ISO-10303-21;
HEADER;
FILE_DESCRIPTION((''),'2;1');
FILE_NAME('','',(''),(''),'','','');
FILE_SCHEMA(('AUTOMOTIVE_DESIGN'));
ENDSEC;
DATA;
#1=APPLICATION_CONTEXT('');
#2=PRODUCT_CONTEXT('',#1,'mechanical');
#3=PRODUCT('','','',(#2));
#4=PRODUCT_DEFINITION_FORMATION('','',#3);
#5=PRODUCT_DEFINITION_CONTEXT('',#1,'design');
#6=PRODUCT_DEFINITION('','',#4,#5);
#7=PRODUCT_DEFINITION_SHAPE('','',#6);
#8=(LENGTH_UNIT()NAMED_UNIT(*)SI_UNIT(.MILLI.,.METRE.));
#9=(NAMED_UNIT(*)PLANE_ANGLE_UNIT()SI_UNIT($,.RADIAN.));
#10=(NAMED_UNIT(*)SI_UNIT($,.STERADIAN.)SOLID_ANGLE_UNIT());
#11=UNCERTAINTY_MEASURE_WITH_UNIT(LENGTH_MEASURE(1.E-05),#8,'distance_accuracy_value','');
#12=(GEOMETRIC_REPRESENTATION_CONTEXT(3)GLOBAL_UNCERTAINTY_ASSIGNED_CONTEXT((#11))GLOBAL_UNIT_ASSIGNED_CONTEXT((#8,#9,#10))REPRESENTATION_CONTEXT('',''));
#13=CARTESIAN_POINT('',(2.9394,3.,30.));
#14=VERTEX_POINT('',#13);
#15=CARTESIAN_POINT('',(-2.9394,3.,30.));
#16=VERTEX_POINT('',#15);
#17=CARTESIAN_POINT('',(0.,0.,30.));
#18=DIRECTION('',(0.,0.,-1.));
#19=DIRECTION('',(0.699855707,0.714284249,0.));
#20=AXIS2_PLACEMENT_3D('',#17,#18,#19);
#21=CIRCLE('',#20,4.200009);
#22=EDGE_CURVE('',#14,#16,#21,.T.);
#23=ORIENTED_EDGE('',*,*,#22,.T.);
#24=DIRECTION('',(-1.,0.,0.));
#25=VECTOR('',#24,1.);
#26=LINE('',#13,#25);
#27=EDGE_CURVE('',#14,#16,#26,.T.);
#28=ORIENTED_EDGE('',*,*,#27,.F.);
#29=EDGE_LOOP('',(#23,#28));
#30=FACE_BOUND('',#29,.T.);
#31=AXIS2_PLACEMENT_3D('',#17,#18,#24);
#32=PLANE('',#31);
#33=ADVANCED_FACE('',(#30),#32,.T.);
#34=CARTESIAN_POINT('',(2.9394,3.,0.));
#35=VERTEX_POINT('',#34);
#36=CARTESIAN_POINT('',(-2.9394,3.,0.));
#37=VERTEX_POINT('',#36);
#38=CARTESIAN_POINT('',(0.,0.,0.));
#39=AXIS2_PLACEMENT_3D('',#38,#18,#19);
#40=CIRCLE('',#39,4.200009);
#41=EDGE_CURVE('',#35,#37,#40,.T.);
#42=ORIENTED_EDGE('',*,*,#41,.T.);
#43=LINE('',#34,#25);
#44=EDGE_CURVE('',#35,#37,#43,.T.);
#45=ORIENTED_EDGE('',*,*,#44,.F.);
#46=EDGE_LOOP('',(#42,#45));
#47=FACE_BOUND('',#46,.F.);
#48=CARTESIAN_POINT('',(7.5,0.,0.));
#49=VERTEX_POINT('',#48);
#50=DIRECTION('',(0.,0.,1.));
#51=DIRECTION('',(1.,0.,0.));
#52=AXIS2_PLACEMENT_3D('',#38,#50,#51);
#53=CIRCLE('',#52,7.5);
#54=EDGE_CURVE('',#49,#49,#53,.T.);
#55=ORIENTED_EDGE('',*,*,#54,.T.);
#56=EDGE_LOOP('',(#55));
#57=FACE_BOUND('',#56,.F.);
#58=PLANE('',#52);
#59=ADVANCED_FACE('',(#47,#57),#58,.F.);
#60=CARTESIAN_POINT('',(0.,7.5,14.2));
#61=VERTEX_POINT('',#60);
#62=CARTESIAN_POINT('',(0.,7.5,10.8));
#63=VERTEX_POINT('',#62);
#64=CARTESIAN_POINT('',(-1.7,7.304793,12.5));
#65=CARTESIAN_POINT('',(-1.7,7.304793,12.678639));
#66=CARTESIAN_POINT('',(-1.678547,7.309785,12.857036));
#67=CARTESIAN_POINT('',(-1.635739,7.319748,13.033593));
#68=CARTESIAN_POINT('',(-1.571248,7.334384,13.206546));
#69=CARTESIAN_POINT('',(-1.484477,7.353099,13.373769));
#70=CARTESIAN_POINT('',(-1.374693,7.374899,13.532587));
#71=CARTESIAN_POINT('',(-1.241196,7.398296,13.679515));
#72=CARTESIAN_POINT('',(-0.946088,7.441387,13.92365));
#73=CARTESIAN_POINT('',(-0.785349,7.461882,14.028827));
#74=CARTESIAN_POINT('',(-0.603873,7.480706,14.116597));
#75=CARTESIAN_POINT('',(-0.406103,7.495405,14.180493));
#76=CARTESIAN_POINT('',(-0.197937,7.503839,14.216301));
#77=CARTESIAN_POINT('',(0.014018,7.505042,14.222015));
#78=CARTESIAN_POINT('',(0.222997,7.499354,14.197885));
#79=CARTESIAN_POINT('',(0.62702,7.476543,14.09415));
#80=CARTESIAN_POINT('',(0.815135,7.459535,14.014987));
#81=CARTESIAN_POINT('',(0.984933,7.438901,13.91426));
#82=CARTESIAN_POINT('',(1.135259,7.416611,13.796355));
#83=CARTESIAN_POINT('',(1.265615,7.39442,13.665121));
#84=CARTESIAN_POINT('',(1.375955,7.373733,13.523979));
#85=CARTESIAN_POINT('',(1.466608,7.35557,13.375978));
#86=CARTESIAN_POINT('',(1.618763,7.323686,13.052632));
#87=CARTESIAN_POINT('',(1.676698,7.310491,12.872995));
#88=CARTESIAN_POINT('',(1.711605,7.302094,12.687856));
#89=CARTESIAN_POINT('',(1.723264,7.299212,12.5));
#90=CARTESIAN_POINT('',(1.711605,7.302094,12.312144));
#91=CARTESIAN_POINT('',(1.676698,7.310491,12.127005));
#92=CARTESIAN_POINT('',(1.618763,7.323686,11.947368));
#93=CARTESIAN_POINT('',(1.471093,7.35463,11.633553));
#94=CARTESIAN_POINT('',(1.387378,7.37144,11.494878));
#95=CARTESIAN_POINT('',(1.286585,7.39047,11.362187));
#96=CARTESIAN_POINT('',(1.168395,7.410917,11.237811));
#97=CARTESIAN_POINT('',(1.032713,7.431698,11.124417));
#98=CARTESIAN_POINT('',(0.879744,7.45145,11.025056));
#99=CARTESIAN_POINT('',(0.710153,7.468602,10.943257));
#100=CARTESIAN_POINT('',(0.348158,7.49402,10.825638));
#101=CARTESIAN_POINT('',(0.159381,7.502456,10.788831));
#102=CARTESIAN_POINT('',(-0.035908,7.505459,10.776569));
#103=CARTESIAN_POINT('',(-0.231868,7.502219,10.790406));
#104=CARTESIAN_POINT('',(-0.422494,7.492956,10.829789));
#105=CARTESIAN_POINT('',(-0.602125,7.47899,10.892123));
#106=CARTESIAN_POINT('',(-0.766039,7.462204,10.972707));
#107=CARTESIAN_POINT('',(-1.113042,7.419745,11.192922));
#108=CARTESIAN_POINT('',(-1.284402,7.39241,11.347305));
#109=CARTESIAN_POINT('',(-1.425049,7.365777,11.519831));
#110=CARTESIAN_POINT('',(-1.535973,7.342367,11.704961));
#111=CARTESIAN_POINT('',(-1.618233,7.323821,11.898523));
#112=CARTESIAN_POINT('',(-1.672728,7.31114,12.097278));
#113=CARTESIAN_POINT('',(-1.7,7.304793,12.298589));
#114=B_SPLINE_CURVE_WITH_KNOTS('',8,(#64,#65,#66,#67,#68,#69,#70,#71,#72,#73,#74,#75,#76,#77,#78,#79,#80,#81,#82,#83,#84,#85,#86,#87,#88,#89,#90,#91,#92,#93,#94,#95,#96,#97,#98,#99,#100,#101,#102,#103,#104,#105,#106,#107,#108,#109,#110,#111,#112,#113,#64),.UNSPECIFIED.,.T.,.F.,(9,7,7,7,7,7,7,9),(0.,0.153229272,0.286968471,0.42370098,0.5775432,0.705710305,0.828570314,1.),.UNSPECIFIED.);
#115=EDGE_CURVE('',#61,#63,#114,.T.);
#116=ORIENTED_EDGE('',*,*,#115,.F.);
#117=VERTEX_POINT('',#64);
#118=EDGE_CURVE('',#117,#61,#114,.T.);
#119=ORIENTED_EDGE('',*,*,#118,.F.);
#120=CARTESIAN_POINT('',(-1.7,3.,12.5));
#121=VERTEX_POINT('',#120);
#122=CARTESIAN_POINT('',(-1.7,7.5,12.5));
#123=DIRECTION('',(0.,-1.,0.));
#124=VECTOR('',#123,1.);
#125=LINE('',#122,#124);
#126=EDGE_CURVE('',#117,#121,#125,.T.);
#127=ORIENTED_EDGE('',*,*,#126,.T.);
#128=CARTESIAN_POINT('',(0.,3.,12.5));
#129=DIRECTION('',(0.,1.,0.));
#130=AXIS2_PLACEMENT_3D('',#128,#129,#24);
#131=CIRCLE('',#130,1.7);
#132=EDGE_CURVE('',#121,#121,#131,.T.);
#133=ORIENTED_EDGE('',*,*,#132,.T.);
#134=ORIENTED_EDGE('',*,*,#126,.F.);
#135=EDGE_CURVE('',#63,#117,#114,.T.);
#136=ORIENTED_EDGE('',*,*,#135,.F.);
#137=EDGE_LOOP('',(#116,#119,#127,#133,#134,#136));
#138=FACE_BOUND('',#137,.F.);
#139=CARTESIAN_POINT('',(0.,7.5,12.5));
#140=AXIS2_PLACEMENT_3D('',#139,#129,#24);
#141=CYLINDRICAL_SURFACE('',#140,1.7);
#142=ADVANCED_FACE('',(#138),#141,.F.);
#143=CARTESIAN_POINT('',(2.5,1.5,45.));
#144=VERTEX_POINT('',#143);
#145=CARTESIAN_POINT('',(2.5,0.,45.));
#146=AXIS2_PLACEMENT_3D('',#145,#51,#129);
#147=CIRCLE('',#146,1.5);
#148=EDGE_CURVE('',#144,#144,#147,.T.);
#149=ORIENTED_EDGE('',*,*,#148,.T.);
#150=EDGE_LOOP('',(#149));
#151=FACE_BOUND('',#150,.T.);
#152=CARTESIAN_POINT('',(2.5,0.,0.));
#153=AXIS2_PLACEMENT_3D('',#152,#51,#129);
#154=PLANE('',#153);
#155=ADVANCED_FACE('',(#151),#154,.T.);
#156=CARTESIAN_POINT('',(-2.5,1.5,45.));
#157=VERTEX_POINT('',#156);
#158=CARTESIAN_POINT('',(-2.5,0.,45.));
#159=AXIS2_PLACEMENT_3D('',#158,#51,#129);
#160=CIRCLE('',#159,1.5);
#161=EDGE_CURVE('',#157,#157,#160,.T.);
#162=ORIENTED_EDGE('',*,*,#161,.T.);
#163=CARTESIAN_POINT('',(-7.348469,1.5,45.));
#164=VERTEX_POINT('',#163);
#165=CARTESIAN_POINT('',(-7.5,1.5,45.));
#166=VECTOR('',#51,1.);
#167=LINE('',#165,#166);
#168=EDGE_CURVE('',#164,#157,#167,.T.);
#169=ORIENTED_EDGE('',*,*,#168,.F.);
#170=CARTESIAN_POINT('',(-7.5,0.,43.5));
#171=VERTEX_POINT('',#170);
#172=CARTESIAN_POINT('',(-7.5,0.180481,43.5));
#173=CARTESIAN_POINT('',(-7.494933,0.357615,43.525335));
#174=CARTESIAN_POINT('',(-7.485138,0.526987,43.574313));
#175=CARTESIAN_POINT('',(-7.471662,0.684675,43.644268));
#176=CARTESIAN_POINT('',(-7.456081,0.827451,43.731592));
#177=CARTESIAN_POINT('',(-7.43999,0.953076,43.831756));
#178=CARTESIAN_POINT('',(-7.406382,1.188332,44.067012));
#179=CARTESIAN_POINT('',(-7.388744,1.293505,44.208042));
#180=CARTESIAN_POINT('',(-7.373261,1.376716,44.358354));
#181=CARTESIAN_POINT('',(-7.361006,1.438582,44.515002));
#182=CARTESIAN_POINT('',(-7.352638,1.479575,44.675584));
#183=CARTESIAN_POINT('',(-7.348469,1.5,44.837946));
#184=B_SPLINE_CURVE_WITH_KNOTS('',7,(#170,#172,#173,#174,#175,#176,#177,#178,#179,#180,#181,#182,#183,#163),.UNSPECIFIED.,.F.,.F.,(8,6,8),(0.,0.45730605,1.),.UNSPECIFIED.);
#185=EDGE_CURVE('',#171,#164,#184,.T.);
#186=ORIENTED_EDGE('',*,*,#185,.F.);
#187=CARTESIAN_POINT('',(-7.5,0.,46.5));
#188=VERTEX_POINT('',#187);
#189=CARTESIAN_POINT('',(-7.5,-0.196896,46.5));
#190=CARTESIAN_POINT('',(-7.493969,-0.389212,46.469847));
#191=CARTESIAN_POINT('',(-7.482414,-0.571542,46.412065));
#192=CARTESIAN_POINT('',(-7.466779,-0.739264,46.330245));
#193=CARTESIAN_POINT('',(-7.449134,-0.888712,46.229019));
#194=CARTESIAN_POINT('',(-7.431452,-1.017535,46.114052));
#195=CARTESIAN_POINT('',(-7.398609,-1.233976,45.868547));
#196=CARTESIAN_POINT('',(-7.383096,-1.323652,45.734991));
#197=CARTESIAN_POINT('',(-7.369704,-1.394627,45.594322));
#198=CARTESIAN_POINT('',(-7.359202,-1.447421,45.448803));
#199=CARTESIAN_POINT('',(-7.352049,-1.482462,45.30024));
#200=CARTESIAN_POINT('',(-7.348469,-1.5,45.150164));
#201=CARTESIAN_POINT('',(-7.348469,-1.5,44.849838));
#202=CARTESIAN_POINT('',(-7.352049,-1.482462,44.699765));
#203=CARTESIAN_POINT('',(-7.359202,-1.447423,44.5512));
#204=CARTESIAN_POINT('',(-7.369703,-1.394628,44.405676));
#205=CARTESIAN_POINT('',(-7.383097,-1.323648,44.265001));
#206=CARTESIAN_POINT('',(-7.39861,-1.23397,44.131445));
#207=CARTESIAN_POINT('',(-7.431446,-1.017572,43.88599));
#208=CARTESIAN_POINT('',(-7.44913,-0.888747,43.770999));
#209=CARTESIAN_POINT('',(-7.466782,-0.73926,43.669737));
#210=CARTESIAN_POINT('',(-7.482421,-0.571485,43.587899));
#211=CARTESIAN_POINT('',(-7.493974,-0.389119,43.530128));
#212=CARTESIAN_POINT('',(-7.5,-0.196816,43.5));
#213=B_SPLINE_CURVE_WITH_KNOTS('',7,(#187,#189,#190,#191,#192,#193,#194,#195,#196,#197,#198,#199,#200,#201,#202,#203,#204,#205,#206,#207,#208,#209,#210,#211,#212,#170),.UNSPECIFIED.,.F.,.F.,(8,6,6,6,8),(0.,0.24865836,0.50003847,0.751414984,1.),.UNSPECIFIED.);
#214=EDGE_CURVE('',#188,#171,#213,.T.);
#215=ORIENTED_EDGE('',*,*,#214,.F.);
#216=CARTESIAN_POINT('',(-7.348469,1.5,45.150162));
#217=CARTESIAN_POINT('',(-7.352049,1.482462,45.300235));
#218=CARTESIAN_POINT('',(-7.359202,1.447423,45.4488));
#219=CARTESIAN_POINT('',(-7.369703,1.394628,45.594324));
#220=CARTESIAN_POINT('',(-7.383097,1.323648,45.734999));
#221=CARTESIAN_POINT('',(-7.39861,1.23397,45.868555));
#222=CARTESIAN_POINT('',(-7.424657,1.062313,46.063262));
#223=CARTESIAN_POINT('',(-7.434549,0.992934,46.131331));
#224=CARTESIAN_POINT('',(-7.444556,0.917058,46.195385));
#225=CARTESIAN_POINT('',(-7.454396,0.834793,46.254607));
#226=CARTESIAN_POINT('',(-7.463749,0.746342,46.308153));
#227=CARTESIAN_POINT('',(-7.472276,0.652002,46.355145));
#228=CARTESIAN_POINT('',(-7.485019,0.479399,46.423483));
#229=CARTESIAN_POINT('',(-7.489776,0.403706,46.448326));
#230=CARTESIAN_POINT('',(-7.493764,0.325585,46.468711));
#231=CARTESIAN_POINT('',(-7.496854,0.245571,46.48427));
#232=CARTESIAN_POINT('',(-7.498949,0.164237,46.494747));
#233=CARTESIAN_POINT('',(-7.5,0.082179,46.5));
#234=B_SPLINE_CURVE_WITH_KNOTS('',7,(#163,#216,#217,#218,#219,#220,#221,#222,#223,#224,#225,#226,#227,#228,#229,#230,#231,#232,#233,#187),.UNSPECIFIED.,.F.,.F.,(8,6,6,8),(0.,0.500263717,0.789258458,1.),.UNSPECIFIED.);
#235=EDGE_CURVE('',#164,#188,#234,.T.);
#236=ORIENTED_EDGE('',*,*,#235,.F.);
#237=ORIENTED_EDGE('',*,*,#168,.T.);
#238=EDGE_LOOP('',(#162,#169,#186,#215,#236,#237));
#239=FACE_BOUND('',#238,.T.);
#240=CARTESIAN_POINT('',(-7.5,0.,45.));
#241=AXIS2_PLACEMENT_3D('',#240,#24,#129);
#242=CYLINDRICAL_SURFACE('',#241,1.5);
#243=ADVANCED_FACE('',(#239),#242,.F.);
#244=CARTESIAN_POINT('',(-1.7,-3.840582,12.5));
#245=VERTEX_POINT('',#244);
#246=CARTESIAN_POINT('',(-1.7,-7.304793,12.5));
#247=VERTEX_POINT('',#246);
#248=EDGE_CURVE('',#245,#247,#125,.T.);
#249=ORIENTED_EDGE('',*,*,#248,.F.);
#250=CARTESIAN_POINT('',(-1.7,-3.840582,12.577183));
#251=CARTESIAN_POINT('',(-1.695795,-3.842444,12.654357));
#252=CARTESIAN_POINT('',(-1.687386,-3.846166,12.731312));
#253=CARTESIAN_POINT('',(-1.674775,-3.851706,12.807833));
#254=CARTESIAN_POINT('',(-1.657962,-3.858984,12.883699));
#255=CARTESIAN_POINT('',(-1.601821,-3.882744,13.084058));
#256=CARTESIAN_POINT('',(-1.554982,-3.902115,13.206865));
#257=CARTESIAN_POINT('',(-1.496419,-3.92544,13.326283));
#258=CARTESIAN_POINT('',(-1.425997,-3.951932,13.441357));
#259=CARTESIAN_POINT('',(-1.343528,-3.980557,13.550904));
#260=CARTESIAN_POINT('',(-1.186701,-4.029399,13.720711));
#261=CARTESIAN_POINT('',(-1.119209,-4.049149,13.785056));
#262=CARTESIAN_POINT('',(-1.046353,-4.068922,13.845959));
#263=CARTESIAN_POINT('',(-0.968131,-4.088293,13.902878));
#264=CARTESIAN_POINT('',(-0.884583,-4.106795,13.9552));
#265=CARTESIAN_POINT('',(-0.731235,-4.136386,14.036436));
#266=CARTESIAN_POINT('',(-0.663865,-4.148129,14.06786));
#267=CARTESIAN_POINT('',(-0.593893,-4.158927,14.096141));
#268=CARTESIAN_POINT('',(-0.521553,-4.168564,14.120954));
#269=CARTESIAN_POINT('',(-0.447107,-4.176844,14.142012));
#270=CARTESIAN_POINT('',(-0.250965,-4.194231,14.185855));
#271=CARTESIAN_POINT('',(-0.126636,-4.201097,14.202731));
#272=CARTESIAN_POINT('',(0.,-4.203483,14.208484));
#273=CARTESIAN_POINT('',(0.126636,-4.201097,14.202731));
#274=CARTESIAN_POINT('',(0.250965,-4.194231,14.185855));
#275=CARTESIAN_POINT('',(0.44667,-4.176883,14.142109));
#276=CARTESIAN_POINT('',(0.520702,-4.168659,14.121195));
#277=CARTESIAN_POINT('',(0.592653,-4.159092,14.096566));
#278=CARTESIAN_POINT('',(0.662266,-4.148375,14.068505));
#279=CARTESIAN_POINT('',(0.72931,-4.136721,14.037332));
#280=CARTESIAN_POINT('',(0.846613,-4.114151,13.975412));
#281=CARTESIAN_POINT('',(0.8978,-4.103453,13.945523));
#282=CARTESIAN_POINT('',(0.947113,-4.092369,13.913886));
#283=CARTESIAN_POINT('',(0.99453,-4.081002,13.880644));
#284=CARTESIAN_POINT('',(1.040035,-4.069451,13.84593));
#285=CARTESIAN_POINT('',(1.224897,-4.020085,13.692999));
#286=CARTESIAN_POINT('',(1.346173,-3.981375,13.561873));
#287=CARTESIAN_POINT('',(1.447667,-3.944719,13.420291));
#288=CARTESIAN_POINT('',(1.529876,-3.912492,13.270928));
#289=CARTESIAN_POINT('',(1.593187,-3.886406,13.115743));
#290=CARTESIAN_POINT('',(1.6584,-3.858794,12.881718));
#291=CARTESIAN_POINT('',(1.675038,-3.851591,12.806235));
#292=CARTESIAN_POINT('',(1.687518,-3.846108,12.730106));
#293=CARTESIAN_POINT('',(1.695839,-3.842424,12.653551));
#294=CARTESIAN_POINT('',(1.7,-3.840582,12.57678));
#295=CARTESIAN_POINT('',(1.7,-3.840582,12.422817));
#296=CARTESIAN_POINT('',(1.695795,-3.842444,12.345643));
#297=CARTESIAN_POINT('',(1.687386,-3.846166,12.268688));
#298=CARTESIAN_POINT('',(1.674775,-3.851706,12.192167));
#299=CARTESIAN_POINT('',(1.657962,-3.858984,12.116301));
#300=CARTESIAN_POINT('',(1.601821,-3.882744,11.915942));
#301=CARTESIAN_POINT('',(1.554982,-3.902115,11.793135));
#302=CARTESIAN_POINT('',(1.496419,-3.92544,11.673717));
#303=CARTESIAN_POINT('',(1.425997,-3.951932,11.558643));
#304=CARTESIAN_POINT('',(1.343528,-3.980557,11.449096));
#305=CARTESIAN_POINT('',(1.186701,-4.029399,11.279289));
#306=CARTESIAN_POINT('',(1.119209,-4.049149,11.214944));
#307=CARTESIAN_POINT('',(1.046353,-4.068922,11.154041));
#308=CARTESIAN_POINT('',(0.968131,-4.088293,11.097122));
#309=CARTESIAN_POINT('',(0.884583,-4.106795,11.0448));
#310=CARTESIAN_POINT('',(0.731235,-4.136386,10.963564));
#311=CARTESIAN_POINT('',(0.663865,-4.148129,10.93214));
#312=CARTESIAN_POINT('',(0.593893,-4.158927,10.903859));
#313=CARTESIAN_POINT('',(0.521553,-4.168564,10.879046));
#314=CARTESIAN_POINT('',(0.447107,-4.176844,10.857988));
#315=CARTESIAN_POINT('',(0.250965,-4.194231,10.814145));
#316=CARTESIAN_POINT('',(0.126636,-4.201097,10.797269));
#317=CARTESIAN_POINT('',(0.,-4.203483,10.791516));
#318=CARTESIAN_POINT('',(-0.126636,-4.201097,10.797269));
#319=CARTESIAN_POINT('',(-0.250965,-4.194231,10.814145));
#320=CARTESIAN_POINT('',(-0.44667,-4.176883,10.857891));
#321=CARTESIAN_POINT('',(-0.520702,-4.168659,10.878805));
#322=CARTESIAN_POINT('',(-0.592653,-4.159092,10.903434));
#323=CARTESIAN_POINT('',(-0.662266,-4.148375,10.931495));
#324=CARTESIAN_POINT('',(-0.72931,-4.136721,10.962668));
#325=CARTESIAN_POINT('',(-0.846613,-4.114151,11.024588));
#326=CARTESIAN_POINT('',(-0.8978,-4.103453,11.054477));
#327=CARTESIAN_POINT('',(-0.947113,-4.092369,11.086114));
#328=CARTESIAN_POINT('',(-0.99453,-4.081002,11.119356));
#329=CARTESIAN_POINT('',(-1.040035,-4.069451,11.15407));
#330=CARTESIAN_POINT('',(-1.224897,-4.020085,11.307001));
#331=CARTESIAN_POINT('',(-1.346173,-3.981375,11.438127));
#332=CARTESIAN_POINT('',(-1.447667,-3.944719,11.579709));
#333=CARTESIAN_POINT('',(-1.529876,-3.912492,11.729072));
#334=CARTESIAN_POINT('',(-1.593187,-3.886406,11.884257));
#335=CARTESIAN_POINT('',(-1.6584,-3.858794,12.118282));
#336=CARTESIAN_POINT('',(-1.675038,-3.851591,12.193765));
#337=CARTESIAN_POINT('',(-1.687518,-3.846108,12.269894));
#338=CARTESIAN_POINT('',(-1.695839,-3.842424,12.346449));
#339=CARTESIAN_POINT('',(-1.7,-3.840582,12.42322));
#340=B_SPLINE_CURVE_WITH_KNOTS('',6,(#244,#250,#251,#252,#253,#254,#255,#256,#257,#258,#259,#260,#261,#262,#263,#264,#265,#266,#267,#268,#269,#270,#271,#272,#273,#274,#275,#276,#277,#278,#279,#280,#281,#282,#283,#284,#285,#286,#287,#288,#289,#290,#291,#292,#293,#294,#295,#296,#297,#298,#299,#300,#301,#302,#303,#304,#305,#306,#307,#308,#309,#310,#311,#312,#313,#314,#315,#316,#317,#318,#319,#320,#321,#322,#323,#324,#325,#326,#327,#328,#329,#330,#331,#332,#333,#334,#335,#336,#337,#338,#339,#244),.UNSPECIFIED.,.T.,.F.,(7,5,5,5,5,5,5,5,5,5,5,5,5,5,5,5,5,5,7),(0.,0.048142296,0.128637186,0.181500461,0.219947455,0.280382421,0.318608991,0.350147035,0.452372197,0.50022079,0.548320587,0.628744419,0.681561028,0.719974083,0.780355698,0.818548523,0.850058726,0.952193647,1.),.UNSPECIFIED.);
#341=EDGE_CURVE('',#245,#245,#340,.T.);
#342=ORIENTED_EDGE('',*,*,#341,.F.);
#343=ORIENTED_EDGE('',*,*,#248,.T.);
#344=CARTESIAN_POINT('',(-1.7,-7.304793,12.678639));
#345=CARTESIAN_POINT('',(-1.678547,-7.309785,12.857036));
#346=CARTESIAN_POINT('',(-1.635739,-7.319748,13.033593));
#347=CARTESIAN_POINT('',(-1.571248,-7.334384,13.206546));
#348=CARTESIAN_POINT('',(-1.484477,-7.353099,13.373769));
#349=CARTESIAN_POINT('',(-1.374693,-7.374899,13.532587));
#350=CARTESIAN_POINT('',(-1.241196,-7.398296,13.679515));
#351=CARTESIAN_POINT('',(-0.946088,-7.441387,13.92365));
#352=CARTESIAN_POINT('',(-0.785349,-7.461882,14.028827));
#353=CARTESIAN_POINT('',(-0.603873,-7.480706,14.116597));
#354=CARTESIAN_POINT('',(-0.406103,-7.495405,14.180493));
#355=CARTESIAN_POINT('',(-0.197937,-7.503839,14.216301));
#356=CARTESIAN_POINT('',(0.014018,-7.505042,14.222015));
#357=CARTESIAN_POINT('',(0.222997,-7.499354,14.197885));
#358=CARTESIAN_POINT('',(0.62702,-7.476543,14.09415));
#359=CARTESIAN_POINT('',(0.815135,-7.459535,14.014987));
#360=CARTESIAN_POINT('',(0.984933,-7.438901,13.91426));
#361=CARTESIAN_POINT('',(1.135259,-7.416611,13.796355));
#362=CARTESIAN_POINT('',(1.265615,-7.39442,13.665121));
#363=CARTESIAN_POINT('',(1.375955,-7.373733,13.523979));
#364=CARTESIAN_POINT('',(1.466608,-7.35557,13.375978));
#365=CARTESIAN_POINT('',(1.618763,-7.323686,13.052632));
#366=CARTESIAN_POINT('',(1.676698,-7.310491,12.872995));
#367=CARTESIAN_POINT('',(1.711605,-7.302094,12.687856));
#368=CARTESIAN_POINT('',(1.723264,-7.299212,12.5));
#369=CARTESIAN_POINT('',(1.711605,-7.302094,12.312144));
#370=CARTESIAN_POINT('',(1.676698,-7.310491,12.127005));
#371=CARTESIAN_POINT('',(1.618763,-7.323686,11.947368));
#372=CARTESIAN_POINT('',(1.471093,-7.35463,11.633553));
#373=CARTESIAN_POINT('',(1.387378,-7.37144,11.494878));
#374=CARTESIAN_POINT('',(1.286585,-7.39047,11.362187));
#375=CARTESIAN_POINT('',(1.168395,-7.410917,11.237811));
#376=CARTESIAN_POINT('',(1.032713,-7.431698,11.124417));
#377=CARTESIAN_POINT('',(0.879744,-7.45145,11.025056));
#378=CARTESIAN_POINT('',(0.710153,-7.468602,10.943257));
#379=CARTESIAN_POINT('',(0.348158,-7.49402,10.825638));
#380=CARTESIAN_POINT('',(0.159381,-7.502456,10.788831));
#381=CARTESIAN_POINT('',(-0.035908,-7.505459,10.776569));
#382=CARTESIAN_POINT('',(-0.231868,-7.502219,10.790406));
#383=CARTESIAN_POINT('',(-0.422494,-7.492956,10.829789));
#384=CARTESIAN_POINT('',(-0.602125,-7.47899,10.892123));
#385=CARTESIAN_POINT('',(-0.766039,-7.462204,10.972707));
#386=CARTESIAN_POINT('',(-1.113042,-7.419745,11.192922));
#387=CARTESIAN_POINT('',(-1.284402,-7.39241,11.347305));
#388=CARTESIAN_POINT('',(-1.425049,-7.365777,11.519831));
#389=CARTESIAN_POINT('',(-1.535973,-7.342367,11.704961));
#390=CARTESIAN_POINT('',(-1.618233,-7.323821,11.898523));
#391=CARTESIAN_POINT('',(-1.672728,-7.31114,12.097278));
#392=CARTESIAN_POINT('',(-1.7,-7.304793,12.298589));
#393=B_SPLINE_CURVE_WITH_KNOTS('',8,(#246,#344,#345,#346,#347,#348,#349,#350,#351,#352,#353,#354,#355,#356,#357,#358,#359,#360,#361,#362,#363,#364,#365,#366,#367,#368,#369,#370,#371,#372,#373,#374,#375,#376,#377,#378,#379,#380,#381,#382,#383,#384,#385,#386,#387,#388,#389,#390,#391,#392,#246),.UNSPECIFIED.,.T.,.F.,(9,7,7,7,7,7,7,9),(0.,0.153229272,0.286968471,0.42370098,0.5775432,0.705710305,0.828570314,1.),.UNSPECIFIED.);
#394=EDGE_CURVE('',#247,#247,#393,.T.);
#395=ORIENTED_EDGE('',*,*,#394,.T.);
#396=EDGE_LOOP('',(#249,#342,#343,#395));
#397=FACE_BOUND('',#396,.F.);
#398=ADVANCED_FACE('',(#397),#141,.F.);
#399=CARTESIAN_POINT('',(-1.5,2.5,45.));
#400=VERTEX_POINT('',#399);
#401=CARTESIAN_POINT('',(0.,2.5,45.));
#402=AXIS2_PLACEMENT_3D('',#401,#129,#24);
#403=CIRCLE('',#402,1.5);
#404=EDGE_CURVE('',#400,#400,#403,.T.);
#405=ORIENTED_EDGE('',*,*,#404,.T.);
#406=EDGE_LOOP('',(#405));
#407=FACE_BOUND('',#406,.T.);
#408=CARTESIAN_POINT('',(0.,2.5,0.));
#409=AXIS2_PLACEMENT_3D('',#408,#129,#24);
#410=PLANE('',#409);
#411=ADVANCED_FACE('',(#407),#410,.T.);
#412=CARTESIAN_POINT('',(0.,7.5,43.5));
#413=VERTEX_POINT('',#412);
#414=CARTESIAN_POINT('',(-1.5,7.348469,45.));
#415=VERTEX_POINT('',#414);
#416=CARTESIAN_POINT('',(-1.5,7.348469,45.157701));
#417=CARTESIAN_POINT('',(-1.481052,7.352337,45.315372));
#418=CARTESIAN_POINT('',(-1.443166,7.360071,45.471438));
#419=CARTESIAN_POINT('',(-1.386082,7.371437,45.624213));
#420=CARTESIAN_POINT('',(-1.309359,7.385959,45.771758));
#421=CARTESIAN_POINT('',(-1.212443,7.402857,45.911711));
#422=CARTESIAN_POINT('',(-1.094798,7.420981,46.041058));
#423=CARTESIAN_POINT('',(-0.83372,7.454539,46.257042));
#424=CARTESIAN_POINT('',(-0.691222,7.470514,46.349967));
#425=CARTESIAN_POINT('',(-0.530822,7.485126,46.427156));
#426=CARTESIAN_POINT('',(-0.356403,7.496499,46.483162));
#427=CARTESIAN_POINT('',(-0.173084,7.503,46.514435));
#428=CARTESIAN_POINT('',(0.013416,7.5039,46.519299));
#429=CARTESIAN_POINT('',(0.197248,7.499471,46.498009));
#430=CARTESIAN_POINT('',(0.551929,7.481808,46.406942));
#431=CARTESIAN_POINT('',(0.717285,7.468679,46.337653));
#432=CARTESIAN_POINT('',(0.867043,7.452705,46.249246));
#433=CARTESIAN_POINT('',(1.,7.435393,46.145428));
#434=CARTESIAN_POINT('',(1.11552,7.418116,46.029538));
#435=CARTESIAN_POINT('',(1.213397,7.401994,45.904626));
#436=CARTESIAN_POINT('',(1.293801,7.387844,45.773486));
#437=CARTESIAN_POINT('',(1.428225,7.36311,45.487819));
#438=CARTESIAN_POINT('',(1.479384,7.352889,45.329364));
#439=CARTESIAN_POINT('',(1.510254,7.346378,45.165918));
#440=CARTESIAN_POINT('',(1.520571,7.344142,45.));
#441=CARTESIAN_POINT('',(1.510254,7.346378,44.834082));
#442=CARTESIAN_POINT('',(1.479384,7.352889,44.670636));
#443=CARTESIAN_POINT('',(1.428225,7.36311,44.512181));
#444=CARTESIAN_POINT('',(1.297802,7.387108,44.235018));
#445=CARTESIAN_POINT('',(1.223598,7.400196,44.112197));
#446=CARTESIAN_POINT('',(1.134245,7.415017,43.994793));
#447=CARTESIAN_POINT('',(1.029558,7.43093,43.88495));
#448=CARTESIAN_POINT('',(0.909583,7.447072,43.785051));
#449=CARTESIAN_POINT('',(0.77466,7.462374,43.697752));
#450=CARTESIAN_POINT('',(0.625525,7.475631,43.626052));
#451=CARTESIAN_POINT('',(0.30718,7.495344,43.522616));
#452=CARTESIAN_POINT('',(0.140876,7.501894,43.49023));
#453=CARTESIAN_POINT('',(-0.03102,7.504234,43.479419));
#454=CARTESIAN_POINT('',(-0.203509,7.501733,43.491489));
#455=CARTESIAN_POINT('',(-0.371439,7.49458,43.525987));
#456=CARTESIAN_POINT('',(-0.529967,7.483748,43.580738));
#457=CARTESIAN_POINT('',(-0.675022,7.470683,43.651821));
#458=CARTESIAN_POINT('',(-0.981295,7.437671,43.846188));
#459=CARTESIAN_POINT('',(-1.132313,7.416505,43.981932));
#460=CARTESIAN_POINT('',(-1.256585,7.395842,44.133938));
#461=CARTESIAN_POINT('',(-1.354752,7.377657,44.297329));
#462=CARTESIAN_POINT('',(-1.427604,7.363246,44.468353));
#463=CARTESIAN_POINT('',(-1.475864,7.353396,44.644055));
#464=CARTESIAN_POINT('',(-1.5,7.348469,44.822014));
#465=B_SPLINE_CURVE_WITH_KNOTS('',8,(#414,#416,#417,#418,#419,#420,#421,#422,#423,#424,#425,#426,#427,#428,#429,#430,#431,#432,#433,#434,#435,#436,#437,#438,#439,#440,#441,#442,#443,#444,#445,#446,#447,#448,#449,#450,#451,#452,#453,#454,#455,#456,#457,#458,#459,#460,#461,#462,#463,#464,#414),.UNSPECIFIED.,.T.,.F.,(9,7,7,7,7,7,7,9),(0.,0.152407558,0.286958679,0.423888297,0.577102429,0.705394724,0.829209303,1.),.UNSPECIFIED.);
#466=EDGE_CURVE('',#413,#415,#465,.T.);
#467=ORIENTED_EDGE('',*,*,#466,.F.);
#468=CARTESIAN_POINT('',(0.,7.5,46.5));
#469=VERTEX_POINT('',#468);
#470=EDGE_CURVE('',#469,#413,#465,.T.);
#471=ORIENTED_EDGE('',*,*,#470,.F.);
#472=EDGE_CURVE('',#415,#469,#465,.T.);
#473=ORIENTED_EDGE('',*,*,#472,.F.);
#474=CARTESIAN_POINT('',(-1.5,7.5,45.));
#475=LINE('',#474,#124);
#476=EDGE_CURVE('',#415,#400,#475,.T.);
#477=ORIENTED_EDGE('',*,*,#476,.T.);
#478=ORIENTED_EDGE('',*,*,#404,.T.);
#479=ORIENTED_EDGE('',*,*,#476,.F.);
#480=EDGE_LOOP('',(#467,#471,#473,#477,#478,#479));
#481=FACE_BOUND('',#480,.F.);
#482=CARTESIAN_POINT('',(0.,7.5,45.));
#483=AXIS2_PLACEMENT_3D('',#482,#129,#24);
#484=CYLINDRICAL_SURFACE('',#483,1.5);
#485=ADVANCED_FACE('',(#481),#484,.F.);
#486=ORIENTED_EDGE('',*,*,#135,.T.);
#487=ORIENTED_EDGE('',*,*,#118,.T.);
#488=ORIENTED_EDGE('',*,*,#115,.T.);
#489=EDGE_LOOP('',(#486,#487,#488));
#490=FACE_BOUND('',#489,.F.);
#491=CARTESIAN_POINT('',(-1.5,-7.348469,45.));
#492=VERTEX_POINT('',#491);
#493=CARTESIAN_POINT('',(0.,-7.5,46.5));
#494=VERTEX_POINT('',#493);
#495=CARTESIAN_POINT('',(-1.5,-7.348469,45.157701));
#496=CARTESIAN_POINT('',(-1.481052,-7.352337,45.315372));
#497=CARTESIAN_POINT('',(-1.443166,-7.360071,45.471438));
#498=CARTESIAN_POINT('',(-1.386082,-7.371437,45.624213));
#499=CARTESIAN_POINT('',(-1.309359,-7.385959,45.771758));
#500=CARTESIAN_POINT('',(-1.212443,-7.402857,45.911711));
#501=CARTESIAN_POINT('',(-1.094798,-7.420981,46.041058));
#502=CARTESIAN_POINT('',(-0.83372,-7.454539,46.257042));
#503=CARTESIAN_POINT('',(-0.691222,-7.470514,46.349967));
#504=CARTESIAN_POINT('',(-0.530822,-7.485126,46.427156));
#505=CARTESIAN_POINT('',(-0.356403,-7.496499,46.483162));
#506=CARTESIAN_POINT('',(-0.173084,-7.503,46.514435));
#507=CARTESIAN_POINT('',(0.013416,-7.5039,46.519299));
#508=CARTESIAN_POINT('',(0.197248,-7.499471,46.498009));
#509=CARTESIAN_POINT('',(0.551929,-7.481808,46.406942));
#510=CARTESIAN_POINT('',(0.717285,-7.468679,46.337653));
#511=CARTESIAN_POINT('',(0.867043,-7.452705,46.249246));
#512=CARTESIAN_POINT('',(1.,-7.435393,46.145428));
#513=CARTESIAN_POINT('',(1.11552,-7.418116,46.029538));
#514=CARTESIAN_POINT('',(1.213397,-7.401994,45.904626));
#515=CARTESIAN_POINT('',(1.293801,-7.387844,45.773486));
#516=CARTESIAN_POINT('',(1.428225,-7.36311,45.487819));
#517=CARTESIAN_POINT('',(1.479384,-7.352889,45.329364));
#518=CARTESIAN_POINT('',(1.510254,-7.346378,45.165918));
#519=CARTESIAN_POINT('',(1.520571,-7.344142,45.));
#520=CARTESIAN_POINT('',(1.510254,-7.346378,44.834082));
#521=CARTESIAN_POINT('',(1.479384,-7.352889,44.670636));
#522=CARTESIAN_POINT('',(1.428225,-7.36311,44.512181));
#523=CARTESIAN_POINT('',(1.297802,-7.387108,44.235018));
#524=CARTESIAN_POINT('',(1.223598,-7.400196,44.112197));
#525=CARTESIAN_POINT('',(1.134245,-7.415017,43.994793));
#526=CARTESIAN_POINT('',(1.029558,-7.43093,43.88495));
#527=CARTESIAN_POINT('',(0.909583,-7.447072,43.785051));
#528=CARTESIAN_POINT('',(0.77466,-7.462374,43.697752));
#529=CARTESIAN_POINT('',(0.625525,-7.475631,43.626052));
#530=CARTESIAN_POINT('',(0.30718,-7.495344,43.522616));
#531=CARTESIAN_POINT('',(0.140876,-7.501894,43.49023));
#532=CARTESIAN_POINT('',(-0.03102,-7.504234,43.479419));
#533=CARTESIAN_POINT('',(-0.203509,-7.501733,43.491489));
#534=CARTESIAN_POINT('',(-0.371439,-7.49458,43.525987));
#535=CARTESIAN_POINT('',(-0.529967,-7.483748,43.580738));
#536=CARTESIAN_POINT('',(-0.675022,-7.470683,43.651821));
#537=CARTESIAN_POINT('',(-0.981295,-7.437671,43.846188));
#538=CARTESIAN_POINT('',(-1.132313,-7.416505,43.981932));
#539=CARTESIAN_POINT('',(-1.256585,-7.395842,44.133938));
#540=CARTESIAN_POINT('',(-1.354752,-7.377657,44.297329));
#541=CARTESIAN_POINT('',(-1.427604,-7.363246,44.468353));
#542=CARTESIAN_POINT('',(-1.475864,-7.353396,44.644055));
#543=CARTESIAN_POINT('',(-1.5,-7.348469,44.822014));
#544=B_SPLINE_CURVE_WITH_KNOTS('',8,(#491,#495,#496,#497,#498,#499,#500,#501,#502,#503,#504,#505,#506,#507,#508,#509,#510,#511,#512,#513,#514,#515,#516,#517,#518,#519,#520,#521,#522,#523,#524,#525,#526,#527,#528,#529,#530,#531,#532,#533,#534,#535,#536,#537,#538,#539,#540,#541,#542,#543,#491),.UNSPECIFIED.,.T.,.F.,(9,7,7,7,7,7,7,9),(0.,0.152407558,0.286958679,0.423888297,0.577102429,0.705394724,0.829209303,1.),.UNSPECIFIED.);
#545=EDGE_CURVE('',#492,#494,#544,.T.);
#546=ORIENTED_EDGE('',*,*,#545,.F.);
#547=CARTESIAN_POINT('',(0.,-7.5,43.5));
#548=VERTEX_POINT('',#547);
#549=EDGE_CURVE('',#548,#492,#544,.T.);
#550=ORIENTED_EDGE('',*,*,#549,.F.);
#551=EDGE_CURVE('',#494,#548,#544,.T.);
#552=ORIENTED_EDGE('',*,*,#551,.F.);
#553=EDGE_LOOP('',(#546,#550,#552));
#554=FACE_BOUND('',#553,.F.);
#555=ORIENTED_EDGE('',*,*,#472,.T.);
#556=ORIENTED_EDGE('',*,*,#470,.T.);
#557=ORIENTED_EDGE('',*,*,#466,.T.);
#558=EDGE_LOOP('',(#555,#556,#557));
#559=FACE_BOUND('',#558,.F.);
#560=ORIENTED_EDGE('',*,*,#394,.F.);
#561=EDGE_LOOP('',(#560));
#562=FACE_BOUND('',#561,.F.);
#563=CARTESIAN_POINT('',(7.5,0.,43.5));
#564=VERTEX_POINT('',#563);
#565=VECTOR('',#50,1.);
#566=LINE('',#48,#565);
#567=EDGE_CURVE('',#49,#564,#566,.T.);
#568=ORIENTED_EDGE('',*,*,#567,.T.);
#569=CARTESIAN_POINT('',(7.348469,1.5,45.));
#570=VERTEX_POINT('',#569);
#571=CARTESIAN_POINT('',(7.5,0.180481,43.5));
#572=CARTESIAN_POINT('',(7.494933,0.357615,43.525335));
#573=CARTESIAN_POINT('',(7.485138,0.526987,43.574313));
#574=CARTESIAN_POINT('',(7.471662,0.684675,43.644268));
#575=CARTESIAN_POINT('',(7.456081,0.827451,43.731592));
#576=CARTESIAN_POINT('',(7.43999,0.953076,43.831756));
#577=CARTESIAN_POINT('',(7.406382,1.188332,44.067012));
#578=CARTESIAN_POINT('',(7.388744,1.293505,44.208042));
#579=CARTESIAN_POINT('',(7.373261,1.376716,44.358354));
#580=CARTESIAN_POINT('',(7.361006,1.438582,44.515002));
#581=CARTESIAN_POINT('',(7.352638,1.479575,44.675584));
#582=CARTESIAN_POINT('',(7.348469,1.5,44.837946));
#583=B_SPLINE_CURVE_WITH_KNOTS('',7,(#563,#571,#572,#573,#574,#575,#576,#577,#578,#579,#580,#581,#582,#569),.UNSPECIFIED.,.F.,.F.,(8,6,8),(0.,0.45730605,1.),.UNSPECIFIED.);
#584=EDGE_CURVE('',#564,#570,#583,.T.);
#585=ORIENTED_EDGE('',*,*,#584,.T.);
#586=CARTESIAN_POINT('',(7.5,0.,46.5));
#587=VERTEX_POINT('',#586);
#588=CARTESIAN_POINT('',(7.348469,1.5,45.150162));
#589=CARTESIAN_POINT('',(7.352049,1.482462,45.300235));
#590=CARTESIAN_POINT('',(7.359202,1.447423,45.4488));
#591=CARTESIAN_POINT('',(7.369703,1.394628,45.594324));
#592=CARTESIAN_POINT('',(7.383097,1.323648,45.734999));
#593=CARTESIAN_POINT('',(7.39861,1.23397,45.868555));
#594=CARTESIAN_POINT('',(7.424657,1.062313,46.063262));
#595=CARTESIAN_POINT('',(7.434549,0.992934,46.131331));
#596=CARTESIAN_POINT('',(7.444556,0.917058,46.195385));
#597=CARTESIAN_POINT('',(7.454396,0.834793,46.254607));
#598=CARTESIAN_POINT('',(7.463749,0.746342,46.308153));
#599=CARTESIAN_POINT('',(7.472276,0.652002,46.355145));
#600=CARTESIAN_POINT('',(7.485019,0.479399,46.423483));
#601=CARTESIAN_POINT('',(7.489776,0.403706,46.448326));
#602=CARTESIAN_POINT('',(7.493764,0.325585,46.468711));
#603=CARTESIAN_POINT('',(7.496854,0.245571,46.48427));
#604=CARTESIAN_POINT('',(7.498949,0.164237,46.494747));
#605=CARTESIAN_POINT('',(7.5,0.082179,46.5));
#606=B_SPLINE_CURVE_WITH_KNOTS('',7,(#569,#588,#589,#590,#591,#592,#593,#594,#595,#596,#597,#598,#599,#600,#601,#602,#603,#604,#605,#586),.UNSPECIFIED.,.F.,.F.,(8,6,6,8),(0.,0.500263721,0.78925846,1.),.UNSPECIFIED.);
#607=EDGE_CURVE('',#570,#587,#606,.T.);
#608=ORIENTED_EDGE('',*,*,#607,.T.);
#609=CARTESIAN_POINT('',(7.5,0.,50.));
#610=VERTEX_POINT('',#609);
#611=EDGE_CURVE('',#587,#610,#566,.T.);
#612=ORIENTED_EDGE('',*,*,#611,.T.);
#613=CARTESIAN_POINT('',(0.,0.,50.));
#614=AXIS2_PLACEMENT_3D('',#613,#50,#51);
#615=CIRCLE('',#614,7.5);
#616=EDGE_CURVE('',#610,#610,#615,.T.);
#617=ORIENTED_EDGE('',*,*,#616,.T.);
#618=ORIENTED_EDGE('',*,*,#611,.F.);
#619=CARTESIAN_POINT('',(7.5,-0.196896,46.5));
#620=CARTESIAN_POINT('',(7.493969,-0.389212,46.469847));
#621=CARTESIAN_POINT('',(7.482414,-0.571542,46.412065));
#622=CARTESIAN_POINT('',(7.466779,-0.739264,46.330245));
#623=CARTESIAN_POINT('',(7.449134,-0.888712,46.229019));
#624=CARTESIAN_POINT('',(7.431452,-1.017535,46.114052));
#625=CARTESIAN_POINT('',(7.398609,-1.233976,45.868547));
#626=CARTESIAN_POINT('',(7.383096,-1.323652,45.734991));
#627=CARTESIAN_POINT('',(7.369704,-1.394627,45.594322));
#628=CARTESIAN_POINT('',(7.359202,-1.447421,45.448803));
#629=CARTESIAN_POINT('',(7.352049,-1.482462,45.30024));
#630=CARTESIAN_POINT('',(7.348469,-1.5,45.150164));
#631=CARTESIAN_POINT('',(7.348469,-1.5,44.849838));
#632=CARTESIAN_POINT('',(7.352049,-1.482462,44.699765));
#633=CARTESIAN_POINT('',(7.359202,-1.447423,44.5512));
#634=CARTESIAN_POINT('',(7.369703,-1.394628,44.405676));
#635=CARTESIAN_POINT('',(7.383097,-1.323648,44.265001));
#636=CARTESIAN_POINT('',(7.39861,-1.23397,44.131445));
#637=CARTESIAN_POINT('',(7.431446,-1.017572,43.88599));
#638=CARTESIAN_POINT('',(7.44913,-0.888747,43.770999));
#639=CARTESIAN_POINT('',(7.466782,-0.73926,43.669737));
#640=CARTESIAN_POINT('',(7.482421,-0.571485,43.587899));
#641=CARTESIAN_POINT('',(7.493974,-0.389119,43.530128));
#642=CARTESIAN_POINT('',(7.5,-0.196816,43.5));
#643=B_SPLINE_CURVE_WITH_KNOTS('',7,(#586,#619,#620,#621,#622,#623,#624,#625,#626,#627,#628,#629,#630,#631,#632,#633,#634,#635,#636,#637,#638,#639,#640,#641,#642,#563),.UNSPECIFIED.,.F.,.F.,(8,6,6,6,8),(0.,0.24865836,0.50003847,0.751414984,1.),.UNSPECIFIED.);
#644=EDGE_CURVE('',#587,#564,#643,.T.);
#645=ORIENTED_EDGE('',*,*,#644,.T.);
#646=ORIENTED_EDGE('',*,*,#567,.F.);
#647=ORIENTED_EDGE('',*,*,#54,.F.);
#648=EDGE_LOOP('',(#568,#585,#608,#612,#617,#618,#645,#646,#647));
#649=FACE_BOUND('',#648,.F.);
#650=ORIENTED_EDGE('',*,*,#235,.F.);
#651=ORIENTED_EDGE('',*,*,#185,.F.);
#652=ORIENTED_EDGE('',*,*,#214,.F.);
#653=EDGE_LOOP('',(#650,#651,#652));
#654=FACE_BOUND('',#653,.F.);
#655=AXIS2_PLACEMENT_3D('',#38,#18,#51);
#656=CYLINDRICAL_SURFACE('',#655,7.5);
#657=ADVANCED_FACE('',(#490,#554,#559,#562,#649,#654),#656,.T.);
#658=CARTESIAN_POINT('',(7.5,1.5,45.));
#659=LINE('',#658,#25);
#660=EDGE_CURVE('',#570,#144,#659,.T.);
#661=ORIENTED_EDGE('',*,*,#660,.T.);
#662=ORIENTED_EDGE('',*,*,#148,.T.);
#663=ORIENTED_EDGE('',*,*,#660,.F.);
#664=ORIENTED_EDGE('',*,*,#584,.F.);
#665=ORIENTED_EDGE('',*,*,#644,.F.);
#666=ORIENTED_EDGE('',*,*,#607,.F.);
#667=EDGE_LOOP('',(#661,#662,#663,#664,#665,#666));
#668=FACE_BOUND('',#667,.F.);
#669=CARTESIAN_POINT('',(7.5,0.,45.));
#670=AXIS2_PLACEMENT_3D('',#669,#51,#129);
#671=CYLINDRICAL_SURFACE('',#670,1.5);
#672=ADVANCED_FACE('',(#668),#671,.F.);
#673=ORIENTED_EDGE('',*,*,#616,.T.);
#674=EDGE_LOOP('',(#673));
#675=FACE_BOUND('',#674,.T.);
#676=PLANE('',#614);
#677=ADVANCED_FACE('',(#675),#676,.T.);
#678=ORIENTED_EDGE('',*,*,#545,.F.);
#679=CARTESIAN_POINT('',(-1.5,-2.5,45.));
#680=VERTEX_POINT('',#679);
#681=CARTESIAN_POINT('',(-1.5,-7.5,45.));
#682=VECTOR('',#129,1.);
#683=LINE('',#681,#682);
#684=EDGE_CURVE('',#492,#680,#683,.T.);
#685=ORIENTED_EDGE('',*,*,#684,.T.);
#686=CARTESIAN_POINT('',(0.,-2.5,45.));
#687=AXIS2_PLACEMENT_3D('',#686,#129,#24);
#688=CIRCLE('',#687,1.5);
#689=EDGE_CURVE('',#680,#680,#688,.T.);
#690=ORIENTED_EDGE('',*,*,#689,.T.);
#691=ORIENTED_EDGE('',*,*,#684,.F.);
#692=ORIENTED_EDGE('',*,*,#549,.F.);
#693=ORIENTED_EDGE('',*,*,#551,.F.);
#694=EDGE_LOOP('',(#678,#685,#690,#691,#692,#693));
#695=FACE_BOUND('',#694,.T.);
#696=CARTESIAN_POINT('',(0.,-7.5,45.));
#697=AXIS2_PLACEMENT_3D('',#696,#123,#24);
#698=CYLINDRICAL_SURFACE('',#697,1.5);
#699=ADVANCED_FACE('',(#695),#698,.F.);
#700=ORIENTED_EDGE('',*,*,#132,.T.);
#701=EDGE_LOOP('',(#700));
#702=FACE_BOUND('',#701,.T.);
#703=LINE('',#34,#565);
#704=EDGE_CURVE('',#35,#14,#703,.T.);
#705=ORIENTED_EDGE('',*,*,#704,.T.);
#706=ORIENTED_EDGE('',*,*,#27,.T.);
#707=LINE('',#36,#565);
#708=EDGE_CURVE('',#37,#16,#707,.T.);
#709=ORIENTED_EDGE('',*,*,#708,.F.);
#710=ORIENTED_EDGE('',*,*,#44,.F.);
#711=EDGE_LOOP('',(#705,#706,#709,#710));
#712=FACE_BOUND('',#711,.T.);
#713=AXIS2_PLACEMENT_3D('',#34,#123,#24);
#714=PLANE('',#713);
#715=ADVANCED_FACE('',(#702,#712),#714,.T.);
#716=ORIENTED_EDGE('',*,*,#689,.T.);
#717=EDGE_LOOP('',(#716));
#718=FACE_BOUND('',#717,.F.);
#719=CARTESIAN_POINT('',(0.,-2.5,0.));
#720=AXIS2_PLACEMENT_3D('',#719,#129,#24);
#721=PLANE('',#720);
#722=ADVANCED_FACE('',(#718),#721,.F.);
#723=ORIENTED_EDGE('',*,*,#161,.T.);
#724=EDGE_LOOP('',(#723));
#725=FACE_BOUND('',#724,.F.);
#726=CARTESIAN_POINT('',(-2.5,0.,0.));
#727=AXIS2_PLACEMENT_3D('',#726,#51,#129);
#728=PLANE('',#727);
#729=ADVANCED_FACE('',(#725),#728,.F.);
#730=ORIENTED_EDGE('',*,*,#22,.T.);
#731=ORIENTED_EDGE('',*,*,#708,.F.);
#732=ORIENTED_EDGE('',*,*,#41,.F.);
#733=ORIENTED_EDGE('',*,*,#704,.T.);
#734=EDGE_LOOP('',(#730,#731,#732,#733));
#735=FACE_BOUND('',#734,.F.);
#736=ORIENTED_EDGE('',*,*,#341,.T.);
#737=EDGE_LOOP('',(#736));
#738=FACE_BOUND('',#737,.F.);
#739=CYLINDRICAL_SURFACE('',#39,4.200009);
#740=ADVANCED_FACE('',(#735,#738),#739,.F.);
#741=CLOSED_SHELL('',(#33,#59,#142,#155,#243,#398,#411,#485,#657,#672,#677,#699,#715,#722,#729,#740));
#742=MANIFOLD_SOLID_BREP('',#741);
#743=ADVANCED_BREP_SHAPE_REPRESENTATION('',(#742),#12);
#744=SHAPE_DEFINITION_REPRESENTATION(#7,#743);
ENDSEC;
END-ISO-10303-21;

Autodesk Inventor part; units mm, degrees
sketch "スケッチ1" plane through (0, 0, 0) normal (0, 0, 1) x (1, 0, 0)
  circle A0 centre (0, 0) radius 7.5
  dimension "d0" = 15
extrude "押し出し1" add sketch "スケッチ1" along normal blind 50
sketch "スケッチ2" plane through (0, 0, 0) normal (0, 0, -1) x (-1, 0, 0)
  arc A0 (-2.9394, 3) -> (2.9394, 3) centre (0, 0) ccw
  line L0 (-2.9394, 3) -> (2.9394, 3)
  point P0 (-3.1305, 2.8)
  dimension "d3" = 4.2
  dimension "d4" = 3
extrude "押し出し2" cut sketch "スケッチ2" against normal blind 30
ref_plane "作業平面1" through (7.5, 0, 0) normal (1, 0, 0) x (0, 1, 0)
ref_plane "作業平面2" through (-7.5, 0, 0) normal (1, 0, 0) x (0, 1, 0)
ref_plane "作業平面3" through (0, 7.5, 0) normal (0, 1, 0) x (-1, 0, 0)
ref_plane "作業平面4" through (0, -7.5, 0) normal (0, 1, 0) x (-1, 0, 0)
sketch "スケッチ3" plane through (7.5, 0, 0) normal (1, 0, 0) x (0, 1, 0)
  circle A0 centre (0, 45) radius 1.5
  line L0 (7.5, 50) -> (-7.5, 50) projected
  point P0 (0, 0)
  dimension "d11" = 3
  dimension "d12" = 5
sketch "スケッチ4" plane through (-7.5, 0, 0) normal (1, 0, 0) x (0, 1, 0)
  circle A0 centre (0, 45) radius 1.5
  line L0 (7.5, 50) -> (-7.5, 50) projected
  point P0 (0, 0)
  dimension "d13" = 3
  dimension "d14" = 5
extrude "押し出し3" cut sketch "スケッチ3" against normal blind 5
extrude "押し出し4" cut sketch "スケッチ4" along normal blind 5
sketch "スケッチ5" plane through (0, 7.5, 0) normal (0, 1, 0) x (-1, 0, 0)
  circle A0 centre (0, 45) radius 1.5
  line L0 (7.5, 50) -> (-7.5, 50) projected
  point P0 (0, 0)
  dimension "d19" = 3
  dimension "d20" = 5
sketch "スケッチ6" plane through (0, -7.5, 0) normal (0, 1, 0) x (-1, 0, 0)
  circle A0 centre (0, 45) radius 1.5
  line L0 (7.5, 50) -> (-7.5, 50) projected
  point P0 (0, 0)
  dimension "d21" = 3
  dimension "d22" = 5
extrude "押し出し5" cut sketch "スケッチ5" against normal blind 5
extrude "押し出し6" cut sketch "スケッチ6" along normal blind 5
thread "ねじ1" size "M3x0.5" class "6H" standard "ANSI Metric M Profile" full length
thread "ねじ2" size "M3x0.5" class "6H" standard "ANSI Metric M Profile" full length
thread "ねじ3" size "M3x0.5" class "6H" standard "ANSI Metric M Profile" full length
thread "ねじ4" size "M3x0.5" class "6H" standard "ANSI Metric M Profile" full length
sketch "スケッチ7" plane through (0, 7.5, 0) normal (0, 1, 0) x (-1, 0, 0)
  circle A0 centre (0, 12.5) radius 1.7
  point P0 (0, 0)
  dimension "d35" = 3.4
  dimension "d36" = 12.5
extrude "押し出し7" cut sketch "スケッチ7" against normal through all
properties part number "rotary_transfer_shaft_5" material "ステンレス鋼"
